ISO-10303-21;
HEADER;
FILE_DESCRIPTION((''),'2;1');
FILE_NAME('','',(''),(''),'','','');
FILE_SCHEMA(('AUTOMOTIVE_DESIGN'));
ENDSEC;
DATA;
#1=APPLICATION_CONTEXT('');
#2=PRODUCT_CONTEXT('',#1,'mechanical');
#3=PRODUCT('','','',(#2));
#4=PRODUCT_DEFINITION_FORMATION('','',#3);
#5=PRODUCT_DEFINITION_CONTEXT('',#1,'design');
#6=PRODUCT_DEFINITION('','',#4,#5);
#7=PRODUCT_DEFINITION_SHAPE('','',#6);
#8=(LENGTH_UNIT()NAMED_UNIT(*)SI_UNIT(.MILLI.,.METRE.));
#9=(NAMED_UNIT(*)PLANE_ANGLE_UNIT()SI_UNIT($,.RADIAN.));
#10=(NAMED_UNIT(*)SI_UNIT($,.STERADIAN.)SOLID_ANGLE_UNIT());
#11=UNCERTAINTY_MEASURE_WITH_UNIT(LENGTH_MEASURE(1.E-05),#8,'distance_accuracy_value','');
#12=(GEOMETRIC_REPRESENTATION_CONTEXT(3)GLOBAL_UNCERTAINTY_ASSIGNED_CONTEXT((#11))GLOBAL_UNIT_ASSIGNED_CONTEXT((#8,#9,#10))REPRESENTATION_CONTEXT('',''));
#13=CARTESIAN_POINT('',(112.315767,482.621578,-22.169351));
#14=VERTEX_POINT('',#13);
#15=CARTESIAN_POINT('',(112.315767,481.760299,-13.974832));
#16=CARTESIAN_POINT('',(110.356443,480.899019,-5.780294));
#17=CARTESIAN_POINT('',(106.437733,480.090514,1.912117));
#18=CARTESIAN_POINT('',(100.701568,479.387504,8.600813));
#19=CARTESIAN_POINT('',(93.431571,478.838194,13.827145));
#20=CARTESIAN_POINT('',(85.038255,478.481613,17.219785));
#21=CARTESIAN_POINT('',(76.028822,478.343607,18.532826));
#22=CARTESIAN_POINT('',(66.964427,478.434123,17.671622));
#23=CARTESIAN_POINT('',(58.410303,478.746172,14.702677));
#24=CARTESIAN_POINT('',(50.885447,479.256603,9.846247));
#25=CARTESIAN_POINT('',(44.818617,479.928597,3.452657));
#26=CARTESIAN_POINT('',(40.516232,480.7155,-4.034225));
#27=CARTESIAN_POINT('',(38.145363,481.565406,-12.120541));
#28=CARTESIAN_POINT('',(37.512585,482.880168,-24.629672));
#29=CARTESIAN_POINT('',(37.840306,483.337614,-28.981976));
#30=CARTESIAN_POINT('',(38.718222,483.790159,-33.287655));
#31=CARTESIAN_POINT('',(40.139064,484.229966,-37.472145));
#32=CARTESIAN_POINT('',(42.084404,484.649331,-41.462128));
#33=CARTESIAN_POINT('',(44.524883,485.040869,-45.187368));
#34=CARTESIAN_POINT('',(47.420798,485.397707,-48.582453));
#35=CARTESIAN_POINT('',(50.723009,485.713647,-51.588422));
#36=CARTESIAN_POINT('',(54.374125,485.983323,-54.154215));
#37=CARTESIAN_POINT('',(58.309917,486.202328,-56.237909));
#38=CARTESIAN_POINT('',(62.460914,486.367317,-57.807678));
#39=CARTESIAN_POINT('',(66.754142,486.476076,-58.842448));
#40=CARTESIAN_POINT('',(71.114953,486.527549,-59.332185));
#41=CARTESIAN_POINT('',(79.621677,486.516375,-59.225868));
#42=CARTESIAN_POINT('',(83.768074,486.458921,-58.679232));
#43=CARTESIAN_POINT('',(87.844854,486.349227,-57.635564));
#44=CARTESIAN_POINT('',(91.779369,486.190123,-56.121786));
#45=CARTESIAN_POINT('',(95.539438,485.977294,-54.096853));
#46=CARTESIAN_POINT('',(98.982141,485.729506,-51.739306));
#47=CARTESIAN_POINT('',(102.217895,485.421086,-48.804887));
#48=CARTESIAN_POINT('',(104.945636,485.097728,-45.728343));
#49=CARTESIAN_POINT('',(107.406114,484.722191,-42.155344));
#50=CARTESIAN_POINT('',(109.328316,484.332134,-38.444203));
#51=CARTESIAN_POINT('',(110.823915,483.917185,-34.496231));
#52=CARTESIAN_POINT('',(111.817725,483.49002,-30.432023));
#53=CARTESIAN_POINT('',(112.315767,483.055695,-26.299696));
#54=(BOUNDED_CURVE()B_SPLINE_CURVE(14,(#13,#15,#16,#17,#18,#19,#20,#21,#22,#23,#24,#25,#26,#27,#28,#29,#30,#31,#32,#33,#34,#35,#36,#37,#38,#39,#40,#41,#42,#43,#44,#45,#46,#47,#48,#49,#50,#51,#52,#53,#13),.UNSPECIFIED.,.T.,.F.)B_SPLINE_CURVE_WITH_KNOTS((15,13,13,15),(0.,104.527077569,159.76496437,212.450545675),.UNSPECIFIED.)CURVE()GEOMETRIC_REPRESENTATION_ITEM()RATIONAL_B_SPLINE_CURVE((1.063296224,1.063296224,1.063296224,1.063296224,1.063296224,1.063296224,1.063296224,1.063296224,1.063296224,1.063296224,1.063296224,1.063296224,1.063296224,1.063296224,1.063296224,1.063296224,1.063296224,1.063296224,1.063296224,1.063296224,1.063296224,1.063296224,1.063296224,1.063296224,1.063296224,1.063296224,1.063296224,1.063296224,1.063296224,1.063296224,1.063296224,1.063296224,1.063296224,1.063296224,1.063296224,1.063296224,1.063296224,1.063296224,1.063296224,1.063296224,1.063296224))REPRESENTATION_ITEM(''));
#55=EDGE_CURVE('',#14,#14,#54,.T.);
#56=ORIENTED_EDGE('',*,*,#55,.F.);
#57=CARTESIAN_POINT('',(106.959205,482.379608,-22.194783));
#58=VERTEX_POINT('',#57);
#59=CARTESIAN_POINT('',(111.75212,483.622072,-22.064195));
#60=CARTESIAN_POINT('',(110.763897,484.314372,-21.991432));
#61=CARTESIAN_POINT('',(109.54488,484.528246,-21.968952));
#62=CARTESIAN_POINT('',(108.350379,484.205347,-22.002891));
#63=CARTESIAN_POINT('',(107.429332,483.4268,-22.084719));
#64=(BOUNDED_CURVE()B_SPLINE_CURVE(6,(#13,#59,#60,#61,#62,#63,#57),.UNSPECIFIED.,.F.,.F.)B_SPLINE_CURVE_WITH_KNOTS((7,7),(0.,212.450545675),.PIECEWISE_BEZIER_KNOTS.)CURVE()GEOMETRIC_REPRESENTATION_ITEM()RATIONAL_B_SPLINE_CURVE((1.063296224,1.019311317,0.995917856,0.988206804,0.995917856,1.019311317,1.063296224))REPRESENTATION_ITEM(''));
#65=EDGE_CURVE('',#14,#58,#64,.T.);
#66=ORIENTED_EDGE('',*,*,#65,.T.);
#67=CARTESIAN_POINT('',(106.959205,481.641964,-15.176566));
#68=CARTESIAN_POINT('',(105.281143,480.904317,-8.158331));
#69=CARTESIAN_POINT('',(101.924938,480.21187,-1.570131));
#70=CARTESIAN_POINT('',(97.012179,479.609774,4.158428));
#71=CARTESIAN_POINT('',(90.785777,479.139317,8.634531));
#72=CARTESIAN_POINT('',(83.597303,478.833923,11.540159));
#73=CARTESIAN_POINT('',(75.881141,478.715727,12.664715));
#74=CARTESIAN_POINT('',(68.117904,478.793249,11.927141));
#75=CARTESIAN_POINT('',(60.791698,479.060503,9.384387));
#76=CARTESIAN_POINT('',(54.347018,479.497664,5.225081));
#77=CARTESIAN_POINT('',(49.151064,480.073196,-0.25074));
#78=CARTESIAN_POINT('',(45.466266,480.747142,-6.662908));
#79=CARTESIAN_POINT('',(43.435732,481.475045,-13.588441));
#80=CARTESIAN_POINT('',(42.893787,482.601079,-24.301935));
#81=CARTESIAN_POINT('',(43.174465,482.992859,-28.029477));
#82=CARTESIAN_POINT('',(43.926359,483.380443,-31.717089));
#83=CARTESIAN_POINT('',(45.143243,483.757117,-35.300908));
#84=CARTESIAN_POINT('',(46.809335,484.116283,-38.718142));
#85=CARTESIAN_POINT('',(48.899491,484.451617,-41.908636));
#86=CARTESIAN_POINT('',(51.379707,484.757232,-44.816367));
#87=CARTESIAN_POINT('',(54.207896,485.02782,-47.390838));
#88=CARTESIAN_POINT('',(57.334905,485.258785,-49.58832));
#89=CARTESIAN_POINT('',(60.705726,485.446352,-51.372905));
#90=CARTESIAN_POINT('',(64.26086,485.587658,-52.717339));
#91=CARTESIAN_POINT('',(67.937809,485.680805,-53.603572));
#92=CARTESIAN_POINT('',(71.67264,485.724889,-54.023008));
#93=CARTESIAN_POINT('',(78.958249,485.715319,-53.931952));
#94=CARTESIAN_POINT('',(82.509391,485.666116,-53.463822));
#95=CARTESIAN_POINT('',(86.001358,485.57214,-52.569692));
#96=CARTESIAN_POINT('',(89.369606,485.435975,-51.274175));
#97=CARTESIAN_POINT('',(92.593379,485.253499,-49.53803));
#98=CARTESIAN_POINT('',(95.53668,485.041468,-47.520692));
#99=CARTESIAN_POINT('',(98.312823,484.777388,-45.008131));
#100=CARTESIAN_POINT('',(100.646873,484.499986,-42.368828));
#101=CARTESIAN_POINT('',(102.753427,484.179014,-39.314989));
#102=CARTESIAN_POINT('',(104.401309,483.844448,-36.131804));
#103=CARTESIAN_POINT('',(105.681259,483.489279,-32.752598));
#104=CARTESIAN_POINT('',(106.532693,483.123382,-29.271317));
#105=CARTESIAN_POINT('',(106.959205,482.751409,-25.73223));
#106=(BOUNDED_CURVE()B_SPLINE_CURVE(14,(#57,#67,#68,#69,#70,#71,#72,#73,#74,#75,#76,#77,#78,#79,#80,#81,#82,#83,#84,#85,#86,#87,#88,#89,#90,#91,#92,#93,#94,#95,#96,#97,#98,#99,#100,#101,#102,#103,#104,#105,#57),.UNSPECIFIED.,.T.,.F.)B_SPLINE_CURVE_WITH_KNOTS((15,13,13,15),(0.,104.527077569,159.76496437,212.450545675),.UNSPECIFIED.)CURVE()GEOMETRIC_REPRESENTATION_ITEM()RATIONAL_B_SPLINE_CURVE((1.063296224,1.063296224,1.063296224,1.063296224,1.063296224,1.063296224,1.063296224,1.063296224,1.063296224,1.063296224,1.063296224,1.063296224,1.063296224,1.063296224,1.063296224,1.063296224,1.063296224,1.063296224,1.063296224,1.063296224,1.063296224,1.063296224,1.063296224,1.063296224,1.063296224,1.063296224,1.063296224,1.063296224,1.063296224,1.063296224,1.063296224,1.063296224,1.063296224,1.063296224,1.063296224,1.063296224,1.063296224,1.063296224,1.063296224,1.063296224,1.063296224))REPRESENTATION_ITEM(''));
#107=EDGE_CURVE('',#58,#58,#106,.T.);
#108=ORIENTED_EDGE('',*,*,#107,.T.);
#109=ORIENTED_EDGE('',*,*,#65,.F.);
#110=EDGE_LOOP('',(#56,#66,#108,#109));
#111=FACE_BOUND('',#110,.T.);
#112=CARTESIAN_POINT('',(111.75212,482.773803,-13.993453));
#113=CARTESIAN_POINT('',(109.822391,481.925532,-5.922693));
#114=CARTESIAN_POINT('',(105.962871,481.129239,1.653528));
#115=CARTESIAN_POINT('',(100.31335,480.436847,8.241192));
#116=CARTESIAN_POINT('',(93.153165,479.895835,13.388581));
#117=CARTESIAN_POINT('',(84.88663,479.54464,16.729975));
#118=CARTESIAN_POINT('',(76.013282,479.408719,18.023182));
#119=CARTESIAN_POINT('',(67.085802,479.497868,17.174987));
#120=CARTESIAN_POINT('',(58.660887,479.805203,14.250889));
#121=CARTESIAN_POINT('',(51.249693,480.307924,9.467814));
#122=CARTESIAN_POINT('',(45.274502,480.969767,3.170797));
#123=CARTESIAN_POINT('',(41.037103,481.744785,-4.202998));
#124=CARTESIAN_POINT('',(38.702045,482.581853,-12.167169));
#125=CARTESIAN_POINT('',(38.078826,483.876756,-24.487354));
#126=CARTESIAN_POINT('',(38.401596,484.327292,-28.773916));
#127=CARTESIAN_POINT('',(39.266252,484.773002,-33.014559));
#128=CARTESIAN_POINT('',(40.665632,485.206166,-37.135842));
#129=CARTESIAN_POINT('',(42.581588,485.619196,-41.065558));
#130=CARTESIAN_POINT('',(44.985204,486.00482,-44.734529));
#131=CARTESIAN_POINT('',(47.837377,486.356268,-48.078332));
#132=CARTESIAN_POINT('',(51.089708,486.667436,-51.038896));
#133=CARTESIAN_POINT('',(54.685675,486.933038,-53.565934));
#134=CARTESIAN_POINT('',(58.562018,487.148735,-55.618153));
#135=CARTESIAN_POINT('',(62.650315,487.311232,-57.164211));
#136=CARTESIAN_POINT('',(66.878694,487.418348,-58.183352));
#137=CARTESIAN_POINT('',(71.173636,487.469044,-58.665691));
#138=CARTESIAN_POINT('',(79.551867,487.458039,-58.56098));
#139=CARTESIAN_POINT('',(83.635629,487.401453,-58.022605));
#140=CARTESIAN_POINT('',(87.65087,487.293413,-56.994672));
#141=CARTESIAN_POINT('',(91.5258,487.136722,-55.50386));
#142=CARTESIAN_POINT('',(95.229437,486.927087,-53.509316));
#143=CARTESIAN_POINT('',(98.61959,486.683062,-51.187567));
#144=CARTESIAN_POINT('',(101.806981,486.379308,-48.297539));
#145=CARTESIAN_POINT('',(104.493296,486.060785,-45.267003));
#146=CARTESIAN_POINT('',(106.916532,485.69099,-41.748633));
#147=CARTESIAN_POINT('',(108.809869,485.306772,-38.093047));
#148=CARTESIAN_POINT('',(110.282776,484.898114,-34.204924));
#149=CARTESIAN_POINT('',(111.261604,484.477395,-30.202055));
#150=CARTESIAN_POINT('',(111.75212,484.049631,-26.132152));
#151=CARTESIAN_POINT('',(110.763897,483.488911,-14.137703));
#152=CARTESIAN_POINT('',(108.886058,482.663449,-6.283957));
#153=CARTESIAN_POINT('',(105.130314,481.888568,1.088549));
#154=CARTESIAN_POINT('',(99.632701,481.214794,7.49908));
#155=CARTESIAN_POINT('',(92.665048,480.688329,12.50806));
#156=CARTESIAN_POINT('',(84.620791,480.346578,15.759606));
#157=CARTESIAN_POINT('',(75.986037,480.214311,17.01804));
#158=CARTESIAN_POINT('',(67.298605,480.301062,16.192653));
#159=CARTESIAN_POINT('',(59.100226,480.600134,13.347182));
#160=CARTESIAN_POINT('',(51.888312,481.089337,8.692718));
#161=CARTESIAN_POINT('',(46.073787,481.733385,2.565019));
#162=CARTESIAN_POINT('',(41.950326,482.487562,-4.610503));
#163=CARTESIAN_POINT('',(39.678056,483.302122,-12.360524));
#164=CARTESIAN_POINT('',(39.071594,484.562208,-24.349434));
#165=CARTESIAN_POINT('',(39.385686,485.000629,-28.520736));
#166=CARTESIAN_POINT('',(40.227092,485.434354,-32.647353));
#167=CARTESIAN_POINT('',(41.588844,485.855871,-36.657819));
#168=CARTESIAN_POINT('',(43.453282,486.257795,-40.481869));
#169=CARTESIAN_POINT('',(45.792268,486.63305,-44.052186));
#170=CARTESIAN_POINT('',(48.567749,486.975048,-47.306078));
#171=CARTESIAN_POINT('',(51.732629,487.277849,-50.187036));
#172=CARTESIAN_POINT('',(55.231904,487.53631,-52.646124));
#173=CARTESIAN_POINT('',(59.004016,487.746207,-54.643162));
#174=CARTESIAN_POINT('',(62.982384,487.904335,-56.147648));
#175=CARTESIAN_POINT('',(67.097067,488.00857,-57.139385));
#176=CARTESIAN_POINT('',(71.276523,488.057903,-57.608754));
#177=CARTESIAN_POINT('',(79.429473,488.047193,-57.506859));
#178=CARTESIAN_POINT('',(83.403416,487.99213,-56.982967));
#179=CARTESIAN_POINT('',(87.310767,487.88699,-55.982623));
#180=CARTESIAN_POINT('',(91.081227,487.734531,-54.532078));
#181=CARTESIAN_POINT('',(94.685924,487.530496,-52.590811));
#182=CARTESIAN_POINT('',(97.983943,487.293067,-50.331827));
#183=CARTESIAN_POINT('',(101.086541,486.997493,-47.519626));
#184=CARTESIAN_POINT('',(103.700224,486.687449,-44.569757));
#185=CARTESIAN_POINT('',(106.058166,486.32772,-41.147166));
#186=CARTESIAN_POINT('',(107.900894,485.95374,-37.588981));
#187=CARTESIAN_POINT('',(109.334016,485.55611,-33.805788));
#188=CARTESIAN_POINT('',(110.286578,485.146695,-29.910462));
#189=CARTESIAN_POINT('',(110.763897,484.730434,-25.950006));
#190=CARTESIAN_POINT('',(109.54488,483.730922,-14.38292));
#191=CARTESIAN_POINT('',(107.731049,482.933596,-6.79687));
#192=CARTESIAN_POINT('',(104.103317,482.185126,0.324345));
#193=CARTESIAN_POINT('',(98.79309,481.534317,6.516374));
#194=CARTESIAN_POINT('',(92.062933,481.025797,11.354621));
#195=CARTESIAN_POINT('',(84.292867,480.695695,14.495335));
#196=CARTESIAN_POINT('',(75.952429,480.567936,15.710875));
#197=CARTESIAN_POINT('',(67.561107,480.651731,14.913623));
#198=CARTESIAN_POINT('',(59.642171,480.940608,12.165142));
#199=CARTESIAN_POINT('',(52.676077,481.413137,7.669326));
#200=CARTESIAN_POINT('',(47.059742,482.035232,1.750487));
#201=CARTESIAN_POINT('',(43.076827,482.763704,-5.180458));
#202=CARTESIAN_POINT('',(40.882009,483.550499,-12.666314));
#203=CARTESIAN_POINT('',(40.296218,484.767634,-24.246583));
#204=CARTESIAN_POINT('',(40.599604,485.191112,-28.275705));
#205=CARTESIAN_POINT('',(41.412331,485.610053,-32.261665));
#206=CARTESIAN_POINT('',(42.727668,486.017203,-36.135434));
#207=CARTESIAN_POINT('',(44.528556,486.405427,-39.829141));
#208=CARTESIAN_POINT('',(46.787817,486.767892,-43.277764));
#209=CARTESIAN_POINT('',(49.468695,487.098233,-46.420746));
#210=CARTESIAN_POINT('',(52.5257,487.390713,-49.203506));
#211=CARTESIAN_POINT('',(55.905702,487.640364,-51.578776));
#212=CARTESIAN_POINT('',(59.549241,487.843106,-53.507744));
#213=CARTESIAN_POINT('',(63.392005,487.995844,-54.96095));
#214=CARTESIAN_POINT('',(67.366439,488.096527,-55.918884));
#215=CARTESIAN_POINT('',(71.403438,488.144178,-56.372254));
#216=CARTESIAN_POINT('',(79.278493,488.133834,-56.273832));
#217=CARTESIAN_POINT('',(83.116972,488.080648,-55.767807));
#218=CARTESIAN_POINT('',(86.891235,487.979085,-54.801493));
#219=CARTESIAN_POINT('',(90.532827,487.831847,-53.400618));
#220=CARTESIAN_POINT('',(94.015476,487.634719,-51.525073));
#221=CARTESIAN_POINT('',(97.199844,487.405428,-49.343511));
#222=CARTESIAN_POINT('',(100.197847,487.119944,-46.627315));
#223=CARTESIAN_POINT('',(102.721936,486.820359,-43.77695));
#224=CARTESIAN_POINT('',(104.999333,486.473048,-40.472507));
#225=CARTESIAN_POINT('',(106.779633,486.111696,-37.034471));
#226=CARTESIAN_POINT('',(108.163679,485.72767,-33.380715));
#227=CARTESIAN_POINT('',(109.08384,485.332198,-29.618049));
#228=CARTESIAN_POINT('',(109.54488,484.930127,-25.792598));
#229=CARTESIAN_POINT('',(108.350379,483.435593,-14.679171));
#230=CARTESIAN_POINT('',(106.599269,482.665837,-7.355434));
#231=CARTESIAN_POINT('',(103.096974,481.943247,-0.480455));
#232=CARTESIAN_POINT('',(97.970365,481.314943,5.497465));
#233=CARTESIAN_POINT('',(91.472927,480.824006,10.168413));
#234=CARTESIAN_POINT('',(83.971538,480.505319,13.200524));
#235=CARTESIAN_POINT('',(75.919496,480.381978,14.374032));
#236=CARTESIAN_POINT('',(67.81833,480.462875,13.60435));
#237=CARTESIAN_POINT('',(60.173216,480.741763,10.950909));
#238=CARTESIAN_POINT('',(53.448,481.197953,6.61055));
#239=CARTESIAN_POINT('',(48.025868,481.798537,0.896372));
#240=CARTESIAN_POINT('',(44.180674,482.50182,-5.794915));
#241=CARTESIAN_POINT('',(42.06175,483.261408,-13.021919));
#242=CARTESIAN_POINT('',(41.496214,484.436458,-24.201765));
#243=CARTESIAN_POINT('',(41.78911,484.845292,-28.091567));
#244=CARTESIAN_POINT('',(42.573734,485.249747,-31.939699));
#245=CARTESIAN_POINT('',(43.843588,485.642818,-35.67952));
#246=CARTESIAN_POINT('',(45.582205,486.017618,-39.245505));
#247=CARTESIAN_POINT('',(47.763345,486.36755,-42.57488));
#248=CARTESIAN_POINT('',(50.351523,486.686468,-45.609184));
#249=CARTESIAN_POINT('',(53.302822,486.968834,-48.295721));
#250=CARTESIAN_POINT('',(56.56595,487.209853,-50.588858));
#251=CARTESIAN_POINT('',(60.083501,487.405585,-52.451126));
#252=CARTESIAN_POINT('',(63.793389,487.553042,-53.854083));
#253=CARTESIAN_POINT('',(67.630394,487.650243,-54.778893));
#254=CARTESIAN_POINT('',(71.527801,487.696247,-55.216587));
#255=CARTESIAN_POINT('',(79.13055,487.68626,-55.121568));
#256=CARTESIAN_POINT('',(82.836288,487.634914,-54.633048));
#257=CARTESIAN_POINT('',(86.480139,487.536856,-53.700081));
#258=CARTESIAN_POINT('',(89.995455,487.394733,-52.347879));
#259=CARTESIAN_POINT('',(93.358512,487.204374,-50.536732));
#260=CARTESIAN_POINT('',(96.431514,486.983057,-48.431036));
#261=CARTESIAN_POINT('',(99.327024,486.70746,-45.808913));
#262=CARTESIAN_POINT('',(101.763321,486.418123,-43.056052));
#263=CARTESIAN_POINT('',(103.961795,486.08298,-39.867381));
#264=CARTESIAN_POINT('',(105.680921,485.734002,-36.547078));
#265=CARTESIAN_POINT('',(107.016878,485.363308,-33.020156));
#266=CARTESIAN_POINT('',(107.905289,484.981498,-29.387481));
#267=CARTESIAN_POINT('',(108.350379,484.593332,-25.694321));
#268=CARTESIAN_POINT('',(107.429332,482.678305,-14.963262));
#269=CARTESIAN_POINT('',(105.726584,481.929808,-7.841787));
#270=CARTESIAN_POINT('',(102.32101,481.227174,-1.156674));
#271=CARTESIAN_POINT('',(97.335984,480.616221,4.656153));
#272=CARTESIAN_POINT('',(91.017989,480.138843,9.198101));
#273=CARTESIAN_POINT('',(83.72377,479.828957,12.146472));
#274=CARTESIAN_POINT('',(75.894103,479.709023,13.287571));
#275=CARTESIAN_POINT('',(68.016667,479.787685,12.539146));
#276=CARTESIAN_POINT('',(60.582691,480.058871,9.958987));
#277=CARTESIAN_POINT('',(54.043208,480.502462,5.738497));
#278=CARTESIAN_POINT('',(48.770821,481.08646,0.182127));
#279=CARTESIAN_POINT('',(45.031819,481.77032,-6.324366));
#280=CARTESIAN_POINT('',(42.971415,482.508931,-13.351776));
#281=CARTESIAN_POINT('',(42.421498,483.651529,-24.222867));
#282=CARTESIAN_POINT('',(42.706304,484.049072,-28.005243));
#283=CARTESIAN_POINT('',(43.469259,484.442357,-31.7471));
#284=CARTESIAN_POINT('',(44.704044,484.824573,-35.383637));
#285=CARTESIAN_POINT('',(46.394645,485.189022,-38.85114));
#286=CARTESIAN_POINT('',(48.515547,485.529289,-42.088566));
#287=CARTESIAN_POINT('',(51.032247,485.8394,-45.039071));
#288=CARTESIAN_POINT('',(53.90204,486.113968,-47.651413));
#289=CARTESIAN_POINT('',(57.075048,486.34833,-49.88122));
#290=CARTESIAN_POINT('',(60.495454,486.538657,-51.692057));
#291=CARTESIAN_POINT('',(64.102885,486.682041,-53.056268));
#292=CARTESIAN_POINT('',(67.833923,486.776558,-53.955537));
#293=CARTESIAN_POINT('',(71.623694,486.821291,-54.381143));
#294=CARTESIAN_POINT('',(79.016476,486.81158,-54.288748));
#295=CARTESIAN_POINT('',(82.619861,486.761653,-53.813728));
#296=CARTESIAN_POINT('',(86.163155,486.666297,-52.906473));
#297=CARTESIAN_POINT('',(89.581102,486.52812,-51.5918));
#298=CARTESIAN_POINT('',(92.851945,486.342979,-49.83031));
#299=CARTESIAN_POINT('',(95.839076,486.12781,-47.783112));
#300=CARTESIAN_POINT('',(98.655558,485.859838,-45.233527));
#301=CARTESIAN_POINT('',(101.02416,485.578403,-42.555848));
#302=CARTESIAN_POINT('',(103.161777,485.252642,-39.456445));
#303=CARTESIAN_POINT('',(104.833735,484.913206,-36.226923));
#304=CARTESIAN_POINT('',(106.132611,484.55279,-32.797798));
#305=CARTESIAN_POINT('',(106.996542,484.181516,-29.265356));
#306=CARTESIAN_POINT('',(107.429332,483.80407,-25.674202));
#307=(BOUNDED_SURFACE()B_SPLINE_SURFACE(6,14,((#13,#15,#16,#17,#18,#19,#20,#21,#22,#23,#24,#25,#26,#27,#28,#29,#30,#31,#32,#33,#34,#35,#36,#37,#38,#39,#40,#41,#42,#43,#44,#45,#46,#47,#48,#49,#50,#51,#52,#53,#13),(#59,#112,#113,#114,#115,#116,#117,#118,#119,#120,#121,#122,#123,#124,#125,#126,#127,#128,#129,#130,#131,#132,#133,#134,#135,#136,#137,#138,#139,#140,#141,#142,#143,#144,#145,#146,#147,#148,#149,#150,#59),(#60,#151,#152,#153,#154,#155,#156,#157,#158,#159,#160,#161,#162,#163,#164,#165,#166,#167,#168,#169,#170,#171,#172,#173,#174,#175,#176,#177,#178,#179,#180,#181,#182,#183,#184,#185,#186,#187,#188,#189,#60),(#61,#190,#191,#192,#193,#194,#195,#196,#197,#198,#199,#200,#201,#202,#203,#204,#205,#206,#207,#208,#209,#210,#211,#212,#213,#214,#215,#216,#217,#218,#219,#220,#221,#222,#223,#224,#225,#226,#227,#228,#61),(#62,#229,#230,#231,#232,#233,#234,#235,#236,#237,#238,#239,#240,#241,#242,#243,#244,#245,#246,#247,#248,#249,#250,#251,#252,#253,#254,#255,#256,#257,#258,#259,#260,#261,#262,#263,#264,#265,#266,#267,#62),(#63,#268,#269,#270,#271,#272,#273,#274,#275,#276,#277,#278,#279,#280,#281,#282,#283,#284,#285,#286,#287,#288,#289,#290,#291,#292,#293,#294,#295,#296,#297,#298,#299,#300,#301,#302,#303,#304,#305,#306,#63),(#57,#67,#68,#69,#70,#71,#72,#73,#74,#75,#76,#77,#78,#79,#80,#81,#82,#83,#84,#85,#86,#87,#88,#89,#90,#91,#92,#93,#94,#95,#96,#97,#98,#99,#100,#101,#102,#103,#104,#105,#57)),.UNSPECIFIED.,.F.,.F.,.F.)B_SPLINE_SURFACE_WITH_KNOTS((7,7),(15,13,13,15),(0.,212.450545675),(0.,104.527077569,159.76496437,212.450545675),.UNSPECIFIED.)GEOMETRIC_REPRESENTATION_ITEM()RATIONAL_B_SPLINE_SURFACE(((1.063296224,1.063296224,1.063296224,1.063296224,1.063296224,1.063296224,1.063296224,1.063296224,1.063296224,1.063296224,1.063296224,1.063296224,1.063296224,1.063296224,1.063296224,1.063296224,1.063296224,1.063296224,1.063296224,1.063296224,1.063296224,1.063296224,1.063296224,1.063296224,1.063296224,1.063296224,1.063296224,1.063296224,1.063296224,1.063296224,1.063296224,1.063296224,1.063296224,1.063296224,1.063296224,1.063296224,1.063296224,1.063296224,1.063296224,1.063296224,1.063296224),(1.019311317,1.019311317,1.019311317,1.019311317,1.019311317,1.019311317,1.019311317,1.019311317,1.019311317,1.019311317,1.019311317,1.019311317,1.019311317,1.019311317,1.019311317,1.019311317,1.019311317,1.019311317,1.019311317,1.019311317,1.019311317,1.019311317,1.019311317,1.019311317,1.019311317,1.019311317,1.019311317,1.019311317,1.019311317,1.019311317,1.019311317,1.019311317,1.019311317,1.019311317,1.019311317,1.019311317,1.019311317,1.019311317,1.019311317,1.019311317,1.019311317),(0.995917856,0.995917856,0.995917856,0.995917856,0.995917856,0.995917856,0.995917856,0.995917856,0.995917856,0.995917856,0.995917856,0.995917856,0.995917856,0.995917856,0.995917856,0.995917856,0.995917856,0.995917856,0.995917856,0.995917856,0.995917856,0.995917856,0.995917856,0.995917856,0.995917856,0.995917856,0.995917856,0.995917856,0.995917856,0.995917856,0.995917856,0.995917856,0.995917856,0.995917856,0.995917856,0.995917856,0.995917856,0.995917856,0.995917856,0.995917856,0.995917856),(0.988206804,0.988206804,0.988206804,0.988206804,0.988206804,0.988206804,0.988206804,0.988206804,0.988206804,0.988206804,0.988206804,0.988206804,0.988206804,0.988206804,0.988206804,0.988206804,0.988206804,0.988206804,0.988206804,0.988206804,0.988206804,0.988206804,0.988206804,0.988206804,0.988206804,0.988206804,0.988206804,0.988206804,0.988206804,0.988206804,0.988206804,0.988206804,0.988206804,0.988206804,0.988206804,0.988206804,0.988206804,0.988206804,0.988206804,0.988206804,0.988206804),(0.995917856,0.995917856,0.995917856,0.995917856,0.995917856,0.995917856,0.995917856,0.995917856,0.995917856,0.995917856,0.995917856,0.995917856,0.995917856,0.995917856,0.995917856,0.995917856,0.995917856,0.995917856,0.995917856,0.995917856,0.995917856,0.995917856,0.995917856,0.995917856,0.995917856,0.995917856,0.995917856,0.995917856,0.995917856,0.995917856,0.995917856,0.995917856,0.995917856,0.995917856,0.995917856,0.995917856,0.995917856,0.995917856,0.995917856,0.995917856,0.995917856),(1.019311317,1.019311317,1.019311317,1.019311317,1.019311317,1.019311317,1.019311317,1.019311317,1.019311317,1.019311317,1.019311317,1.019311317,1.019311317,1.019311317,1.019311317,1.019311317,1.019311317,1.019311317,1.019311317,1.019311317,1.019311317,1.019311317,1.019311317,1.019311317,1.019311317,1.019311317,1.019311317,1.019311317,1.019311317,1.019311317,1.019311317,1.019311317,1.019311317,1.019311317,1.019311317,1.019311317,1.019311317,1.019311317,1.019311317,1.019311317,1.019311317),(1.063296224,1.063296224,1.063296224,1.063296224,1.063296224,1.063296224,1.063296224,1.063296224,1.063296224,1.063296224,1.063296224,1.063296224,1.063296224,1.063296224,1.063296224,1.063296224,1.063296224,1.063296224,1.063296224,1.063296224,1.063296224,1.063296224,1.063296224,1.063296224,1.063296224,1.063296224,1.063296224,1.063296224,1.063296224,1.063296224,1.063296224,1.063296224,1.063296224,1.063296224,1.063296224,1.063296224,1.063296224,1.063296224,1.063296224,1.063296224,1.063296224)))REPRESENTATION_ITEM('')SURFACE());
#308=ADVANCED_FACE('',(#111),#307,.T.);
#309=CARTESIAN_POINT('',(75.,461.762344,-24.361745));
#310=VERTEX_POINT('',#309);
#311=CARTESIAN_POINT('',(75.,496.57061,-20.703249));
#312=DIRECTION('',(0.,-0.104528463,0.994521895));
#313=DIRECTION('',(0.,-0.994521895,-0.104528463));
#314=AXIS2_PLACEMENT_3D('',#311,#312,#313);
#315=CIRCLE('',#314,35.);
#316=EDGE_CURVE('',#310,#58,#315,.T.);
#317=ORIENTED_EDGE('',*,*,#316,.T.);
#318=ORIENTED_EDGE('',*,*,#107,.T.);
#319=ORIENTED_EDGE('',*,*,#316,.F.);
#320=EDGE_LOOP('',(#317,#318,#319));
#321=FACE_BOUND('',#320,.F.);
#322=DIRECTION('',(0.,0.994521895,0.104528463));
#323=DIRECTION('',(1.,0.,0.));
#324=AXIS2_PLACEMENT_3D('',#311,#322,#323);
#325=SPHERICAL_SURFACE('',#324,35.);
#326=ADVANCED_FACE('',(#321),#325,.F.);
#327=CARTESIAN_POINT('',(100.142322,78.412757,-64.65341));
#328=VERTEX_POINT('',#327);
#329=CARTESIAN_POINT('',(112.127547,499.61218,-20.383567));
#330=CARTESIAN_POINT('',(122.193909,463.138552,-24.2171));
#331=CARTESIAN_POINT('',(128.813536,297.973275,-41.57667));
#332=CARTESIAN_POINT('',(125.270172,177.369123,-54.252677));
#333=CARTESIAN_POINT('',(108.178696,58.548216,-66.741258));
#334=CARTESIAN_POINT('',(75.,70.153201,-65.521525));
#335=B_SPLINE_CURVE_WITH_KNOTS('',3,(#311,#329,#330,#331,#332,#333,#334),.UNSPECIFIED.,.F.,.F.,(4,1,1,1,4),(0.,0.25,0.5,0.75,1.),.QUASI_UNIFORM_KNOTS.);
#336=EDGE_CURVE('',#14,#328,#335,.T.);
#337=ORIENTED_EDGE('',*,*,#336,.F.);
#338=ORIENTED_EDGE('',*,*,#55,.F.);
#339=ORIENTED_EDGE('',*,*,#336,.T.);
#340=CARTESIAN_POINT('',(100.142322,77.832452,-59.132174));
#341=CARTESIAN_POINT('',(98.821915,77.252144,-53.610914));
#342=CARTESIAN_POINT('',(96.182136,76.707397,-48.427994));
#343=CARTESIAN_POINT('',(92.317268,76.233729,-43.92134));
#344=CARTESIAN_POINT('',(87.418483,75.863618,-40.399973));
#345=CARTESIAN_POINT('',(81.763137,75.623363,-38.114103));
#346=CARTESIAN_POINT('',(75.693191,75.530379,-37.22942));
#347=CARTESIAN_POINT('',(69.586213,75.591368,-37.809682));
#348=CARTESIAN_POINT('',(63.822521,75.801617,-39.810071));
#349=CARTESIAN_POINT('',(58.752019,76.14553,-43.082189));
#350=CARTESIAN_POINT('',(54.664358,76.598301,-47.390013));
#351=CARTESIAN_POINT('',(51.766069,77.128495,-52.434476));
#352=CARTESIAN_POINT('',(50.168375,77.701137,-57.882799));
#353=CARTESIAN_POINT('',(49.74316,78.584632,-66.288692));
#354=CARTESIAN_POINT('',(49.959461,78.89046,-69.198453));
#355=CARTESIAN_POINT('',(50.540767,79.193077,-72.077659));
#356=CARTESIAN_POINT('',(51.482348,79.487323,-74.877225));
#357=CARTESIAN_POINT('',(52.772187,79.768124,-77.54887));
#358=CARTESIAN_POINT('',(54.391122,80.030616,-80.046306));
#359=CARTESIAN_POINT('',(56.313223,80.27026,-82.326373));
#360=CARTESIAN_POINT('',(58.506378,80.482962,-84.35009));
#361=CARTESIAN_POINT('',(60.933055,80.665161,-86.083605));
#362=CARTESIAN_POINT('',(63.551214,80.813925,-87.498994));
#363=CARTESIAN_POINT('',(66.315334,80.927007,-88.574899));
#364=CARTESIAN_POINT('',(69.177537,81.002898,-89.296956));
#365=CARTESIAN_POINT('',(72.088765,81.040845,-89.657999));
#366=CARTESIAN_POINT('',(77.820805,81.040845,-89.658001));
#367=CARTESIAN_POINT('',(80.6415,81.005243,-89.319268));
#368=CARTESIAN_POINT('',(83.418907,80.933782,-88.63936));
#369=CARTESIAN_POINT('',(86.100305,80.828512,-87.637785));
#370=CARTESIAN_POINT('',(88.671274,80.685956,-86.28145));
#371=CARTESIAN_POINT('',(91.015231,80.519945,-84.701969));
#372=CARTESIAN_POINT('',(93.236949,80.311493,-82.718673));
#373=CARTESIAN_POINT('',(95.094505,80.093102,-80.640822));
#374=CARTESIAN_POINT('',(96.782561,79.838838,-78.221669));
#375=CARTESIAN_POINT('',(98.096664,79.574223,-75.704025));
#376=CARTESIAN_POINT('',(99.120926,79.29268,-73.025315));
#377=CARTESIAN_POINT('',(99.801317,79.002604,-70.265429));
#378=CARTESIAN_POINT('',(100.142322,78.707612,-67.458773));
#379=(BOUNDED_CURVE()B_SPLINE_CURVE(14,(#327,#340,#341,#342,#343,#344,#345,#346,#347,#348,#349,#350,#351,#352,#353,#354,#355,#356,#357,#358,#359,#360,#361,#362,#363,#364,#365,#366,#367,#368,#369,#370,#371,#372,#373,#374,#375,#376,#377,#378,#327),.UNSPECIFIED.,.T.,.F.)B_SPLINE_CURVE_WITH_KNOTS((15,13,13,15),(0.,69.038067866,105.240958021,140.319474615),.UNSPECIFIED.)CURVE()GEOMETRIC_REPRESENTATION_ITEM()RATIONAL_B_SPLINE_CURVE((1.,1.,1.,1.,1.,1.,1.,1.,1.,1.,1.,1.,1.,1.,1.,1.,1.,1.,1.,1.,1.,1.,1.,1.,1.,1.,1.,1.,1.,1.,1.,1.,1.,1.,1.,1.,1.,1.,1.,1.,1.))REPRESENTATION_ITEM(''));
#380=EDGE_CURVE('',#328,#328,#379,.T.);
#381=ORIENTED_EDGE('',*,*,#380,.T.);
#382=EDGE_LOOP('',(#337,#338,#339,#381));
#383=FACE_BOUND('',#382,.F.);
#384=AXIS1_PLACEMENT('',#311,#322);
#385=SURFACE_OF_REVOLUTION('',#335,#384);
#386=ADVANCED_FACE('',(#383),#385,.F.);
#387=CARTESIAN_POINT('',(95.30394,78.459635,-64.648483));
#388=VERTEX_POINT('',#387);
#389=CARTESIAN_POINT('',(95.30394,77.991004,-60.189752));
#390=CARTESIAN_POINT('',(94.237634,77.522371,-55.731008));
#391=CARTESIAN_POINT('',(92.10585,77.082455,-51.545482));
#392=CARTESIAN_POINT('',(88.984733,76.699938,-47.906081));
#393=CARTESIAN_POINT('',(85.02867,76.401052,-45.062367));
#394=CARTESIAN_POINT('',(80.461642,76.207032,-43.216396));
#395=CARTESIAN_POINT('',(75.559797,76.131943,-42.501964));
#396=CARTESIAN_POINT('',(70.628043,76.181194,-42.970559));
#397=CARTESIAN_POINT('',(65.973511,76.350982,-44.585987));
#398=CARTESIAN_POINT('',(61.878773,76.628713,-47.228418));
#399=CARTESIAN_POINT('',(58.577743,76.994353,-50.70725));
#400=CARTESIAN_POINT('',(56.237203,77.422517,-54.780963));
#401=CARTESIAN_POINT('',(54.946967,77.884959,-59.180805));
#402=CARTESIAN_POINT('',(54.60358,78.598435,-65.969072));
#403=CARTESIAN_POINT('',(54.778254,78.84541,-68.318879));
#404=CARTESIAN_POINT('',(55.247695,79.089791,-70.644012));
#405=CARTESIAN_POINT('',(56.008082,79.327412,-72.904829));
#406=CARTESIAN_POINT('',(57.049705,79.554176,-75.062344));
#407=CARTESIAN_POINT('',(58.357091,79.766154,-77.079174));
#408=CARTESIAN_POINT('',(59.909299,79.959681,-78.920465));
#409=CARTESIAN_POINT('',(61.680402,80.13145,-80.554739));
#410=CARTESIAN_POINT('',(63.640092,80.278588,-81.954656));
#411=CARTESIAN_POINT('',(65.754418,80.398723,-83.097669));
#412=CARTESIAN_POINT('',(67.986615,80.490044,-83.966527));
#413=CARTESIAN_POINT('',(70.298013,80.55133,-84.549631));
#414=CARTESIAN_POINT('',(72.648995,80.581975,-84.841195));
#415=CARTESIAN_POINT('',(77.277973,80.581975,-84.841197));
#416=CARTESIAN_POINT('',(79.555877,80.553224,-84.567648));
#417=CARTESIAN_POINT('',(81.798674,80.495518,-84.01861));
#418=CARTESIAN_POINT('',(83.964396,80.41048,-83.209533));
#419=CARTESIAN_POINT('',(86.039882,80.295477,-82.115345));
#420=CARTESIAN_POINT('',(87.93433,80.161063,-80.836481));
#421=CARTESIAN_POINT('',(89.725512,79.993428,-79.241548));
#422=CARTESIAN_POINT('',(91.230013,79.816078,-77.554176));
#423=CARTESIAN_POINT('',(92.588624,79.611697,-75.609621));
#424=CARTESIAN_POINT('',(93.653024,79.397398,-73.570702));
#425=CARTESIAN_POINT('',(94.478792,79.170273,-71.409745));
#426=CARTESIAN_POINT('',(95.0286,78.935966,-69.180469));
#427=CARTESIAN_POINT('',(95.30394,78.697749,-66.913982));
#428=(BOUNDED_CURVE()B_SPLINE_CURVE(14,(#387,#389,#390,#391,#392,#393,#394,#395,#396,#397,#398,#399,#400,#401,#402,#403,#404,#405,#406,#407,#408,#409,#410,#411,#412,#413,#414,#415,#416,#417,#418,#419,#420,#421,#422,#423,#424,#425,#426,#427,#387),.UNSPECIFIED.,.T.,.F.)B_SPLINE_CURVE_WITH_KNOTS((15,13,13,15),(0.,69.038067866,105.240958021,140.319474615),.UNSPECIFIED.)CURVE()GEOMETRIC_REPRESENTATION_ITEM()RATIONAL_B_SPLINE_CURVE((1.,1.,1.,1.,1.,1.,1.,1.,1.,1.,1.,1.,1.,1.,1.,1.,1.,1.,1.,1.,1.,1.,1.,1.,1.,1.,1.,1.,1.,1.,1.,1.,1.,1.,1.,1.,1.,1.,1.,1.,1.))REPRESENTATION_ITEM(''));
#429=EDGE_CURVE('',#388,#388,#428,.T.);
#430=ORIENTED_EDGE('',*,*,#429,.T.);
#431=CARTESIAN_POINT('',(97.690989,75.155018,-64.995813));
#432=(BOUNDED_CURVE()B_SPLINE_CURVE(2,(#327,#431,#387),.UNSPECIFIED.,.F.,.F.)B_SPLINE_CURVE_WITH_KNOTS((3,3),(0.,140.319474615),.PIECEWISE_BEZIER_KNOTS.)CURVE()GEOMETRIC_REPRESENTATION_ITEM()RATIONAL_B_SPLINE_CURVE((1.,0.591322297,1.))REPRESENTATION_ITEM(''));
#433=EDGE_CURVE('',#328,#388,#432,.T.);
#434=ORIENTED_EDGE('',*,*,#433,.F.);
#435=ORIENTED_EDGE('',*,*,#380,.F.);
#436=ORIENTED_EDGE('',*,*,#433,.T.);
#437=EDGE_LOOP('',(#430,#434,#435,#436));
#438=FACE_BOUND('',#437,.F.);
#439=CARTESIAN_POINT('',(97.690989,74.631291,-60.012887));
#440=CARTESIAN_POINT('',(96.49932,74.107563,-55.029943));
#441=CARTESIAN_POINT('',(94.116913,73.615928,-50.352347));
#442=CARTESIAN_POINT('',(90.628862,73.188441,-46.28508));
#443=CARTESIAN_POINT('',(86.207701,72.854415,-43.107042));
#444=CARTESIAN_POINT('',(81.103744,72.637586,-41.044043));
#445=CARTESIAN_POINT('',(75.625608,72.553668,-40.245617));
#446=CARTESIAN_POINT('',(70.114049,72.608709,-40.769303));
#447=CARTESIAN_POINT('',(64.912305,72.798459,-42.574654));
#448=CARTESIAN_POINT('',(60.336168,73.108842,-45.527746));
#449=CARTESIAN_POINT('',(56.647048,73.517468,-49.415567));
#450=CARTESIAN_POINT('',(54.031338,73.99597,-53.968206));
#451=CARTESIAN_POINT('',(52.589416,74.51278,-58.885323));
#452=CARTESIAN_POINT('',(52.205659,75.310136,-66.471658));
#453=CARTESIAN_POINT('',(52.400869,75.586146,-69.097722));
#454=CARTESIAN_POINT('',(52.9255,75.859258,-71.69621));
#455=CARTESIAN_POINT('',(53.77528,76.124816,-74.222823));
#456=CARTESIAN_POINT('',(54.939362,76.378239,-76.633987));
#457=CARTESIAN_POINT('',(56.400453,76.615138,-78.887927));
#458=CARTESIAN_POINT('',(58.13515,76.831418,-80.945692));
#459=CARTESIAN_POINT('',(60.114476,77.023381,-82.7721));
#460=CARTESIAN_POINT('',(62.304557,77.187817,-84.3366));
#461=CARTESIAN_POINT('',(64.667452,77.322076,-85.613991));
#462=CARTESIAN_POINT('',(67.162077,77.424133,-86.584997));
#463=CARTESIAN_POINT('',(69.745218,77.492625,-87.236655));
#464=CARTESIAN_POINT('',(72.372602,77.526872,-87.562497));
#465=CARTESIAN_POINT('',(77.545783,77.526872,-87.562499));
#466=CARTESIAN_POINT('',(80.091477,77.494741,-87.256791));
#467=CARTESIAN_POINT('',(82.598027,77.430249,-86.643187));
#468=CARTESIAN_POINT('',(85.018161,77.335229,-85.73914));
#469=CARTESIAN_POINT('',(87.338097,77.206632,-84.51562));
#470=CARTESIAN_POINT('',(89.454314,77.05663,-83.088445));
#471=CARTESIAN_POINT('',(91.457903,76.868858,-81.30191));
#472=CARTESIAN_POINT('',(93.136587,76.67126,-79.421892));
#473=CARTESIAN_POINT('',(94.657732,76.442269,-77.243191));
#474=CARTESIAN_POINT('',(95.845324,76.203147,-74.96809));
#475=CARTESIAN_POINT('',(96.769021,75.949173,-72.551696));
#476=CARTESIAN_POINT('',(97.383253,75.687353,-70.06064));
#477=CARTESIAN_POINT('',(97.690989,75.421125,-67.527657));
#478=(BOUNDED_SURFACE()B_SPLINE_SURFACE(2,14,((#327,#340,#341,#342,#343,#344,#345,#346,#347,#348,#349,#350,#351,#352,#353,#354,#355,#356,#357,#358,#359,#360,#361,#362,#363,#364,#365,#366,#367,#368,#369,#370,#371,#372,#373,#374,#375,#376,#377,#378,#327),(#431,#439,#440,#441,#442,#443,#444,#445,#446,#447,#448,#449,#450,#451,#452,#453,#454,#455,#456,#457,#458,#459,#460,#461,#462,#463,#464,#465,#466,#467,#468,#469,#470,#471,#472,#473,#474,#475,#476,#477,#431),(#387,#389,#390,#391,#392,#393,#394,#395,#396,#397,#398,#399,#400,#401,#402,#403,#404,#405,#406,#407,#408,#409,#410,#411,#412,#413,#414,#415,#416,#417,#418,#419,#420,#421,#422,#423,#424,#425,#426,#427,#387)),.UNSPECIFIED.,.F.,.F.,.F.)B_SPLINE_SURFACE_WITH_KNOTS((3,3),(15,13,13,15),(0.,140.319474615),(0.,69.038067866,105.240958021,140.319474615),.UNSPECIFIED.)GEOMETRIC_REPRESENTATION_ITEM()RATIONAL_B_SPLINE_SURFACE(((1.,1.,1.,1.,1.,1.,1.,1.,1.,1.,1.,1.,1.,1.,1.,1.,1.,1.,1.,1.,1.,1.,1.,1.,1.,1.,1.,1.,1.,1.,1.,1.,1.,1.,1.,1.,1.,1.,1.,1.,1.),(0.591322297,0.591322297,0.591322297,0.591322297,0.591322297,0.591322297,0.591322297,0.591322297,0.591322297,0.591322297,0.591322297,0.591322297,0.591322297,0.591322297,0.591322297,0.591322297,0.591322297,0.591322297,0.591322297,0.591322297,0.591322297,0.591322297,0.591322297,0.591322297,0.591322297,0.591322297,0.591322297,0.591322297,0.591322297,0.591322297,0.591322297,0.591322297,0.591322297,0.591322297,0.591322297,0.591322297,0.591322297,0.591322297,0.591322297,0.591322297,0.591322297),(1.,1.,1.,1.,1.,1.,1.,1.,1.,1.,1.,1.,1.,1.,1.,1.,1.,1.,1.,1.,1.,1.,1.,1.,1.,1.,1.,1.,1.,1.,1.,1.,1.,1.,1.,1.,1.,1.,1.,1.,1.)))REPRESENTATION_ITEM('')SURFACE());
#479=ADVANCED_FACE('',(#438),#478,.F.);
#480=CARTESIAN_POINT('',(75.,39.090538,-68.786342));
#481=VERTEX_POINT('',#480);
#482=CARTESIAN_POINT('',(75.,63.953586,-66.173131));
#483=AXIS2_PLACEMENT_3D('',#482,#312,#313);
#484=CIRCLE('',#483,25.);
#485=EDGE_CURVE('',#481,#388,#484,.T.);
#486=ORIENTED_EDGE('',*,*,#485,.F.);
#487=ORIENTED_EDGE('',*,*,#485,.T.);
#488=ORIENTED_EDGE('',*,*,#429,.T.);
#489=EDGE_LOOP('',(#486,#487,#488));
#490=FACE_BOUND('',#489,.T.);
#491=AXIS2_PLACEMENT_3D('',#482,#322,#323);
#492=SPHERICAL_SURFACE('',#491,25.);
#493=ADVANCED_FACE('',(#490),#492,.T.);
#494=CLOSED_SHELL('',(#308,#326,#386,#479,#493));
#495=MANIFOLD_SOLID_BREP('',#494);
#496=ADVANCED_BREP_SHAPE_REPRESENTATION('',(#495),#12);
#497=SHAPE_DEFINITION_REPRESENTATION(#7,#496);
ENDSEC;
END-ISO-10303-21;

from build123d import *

# Parameters (mm, degrees)
FILLET071_R             = 3
FILLET072_R             = 3
BODY044_PLACEMENT_ANGLE = 6


with BuildPart() as part:
    # Sketch148 → Revolution077 (revolve)
    with BuildSketch(Plane.XY):
        with BuildLine():
            Line((0, 0), (0, -428.766235))
            add(Edge.make_bspline(
                [(0, 0), (37.127547, 3.058324), (47.193909, -33.616211), (53.813536, -199.691265), (50.270172, -320.959738), (33.178696, -440.435144), (0, -428.766235)],
                knots=[0, 0, 0, 0, 0.25, 0.5, 0.75, 1, 1, 1, 1], degree=3))
        make_face()
    revolve(axis=Axis((0, 0, 0), (0, 1, 0)))

    # Sketch149 → Groove070 (revolve, cut)
    with BuildSketch(Plane.XY):
        with BuildLine():
            Line((0, 35), (0, -35))
            ThreePointArc((0, -35), (35, 0), (0, 35))
        make_face()
    revolve(axis=Axis((0, 0, 0), (0, 1, 0)), mode=Mode.SUBTRACT)

    # Fillet071
    fillet071_edges = [part.edges().sort_by_distance(p)[0] for p in [
        (-33.812554, -9.039423, 0),
    ]]
    fillet(fillet071_edges, radius=FILLET071_R)

    # Sketch150 → Groove071 (revolve, cut)
    with BuildSketch(Plane.XY):
        with BuildLine():
            Line((0, -410), (0, -460))
            ThreePointArc((0, -460), (25, -435), (0, -410))
        make_face()
    revolve(axis=Axis((0, 0, 0), (0, 1, 0)), mode=Mode.SUBTRACT)

    # Fillet072
    fillet072_edges = [part.edges().sort_by_distance(p)[0] for p in [
        (-22.332538, -423.763553, 0),
    ]]
    fillet(fillet072_edges, radius=FILLET072_R)

    # Sketch150 → Revolution078 (revolve)
    with BuildSketch(Plane.XY):
        with BuildLine():
            Line((0, -410), (0, -460))
            ThreePointArc((0, -460), (25, -435), (0, -410))
        make_face()
    revolve(axis=Axis((0, 0, 0), (0, 1, 0)))


with BuildPart() as part_1:
    # Body044 placement: moved
    add(part.part.moved(Location((75, 496.57061, -20.703249))).rotate(Axis((75, 496.57061, -20.703249), (1, 0, 0)), BODY044_PLACEMENT_ANGLE))


solid = part_1.part
